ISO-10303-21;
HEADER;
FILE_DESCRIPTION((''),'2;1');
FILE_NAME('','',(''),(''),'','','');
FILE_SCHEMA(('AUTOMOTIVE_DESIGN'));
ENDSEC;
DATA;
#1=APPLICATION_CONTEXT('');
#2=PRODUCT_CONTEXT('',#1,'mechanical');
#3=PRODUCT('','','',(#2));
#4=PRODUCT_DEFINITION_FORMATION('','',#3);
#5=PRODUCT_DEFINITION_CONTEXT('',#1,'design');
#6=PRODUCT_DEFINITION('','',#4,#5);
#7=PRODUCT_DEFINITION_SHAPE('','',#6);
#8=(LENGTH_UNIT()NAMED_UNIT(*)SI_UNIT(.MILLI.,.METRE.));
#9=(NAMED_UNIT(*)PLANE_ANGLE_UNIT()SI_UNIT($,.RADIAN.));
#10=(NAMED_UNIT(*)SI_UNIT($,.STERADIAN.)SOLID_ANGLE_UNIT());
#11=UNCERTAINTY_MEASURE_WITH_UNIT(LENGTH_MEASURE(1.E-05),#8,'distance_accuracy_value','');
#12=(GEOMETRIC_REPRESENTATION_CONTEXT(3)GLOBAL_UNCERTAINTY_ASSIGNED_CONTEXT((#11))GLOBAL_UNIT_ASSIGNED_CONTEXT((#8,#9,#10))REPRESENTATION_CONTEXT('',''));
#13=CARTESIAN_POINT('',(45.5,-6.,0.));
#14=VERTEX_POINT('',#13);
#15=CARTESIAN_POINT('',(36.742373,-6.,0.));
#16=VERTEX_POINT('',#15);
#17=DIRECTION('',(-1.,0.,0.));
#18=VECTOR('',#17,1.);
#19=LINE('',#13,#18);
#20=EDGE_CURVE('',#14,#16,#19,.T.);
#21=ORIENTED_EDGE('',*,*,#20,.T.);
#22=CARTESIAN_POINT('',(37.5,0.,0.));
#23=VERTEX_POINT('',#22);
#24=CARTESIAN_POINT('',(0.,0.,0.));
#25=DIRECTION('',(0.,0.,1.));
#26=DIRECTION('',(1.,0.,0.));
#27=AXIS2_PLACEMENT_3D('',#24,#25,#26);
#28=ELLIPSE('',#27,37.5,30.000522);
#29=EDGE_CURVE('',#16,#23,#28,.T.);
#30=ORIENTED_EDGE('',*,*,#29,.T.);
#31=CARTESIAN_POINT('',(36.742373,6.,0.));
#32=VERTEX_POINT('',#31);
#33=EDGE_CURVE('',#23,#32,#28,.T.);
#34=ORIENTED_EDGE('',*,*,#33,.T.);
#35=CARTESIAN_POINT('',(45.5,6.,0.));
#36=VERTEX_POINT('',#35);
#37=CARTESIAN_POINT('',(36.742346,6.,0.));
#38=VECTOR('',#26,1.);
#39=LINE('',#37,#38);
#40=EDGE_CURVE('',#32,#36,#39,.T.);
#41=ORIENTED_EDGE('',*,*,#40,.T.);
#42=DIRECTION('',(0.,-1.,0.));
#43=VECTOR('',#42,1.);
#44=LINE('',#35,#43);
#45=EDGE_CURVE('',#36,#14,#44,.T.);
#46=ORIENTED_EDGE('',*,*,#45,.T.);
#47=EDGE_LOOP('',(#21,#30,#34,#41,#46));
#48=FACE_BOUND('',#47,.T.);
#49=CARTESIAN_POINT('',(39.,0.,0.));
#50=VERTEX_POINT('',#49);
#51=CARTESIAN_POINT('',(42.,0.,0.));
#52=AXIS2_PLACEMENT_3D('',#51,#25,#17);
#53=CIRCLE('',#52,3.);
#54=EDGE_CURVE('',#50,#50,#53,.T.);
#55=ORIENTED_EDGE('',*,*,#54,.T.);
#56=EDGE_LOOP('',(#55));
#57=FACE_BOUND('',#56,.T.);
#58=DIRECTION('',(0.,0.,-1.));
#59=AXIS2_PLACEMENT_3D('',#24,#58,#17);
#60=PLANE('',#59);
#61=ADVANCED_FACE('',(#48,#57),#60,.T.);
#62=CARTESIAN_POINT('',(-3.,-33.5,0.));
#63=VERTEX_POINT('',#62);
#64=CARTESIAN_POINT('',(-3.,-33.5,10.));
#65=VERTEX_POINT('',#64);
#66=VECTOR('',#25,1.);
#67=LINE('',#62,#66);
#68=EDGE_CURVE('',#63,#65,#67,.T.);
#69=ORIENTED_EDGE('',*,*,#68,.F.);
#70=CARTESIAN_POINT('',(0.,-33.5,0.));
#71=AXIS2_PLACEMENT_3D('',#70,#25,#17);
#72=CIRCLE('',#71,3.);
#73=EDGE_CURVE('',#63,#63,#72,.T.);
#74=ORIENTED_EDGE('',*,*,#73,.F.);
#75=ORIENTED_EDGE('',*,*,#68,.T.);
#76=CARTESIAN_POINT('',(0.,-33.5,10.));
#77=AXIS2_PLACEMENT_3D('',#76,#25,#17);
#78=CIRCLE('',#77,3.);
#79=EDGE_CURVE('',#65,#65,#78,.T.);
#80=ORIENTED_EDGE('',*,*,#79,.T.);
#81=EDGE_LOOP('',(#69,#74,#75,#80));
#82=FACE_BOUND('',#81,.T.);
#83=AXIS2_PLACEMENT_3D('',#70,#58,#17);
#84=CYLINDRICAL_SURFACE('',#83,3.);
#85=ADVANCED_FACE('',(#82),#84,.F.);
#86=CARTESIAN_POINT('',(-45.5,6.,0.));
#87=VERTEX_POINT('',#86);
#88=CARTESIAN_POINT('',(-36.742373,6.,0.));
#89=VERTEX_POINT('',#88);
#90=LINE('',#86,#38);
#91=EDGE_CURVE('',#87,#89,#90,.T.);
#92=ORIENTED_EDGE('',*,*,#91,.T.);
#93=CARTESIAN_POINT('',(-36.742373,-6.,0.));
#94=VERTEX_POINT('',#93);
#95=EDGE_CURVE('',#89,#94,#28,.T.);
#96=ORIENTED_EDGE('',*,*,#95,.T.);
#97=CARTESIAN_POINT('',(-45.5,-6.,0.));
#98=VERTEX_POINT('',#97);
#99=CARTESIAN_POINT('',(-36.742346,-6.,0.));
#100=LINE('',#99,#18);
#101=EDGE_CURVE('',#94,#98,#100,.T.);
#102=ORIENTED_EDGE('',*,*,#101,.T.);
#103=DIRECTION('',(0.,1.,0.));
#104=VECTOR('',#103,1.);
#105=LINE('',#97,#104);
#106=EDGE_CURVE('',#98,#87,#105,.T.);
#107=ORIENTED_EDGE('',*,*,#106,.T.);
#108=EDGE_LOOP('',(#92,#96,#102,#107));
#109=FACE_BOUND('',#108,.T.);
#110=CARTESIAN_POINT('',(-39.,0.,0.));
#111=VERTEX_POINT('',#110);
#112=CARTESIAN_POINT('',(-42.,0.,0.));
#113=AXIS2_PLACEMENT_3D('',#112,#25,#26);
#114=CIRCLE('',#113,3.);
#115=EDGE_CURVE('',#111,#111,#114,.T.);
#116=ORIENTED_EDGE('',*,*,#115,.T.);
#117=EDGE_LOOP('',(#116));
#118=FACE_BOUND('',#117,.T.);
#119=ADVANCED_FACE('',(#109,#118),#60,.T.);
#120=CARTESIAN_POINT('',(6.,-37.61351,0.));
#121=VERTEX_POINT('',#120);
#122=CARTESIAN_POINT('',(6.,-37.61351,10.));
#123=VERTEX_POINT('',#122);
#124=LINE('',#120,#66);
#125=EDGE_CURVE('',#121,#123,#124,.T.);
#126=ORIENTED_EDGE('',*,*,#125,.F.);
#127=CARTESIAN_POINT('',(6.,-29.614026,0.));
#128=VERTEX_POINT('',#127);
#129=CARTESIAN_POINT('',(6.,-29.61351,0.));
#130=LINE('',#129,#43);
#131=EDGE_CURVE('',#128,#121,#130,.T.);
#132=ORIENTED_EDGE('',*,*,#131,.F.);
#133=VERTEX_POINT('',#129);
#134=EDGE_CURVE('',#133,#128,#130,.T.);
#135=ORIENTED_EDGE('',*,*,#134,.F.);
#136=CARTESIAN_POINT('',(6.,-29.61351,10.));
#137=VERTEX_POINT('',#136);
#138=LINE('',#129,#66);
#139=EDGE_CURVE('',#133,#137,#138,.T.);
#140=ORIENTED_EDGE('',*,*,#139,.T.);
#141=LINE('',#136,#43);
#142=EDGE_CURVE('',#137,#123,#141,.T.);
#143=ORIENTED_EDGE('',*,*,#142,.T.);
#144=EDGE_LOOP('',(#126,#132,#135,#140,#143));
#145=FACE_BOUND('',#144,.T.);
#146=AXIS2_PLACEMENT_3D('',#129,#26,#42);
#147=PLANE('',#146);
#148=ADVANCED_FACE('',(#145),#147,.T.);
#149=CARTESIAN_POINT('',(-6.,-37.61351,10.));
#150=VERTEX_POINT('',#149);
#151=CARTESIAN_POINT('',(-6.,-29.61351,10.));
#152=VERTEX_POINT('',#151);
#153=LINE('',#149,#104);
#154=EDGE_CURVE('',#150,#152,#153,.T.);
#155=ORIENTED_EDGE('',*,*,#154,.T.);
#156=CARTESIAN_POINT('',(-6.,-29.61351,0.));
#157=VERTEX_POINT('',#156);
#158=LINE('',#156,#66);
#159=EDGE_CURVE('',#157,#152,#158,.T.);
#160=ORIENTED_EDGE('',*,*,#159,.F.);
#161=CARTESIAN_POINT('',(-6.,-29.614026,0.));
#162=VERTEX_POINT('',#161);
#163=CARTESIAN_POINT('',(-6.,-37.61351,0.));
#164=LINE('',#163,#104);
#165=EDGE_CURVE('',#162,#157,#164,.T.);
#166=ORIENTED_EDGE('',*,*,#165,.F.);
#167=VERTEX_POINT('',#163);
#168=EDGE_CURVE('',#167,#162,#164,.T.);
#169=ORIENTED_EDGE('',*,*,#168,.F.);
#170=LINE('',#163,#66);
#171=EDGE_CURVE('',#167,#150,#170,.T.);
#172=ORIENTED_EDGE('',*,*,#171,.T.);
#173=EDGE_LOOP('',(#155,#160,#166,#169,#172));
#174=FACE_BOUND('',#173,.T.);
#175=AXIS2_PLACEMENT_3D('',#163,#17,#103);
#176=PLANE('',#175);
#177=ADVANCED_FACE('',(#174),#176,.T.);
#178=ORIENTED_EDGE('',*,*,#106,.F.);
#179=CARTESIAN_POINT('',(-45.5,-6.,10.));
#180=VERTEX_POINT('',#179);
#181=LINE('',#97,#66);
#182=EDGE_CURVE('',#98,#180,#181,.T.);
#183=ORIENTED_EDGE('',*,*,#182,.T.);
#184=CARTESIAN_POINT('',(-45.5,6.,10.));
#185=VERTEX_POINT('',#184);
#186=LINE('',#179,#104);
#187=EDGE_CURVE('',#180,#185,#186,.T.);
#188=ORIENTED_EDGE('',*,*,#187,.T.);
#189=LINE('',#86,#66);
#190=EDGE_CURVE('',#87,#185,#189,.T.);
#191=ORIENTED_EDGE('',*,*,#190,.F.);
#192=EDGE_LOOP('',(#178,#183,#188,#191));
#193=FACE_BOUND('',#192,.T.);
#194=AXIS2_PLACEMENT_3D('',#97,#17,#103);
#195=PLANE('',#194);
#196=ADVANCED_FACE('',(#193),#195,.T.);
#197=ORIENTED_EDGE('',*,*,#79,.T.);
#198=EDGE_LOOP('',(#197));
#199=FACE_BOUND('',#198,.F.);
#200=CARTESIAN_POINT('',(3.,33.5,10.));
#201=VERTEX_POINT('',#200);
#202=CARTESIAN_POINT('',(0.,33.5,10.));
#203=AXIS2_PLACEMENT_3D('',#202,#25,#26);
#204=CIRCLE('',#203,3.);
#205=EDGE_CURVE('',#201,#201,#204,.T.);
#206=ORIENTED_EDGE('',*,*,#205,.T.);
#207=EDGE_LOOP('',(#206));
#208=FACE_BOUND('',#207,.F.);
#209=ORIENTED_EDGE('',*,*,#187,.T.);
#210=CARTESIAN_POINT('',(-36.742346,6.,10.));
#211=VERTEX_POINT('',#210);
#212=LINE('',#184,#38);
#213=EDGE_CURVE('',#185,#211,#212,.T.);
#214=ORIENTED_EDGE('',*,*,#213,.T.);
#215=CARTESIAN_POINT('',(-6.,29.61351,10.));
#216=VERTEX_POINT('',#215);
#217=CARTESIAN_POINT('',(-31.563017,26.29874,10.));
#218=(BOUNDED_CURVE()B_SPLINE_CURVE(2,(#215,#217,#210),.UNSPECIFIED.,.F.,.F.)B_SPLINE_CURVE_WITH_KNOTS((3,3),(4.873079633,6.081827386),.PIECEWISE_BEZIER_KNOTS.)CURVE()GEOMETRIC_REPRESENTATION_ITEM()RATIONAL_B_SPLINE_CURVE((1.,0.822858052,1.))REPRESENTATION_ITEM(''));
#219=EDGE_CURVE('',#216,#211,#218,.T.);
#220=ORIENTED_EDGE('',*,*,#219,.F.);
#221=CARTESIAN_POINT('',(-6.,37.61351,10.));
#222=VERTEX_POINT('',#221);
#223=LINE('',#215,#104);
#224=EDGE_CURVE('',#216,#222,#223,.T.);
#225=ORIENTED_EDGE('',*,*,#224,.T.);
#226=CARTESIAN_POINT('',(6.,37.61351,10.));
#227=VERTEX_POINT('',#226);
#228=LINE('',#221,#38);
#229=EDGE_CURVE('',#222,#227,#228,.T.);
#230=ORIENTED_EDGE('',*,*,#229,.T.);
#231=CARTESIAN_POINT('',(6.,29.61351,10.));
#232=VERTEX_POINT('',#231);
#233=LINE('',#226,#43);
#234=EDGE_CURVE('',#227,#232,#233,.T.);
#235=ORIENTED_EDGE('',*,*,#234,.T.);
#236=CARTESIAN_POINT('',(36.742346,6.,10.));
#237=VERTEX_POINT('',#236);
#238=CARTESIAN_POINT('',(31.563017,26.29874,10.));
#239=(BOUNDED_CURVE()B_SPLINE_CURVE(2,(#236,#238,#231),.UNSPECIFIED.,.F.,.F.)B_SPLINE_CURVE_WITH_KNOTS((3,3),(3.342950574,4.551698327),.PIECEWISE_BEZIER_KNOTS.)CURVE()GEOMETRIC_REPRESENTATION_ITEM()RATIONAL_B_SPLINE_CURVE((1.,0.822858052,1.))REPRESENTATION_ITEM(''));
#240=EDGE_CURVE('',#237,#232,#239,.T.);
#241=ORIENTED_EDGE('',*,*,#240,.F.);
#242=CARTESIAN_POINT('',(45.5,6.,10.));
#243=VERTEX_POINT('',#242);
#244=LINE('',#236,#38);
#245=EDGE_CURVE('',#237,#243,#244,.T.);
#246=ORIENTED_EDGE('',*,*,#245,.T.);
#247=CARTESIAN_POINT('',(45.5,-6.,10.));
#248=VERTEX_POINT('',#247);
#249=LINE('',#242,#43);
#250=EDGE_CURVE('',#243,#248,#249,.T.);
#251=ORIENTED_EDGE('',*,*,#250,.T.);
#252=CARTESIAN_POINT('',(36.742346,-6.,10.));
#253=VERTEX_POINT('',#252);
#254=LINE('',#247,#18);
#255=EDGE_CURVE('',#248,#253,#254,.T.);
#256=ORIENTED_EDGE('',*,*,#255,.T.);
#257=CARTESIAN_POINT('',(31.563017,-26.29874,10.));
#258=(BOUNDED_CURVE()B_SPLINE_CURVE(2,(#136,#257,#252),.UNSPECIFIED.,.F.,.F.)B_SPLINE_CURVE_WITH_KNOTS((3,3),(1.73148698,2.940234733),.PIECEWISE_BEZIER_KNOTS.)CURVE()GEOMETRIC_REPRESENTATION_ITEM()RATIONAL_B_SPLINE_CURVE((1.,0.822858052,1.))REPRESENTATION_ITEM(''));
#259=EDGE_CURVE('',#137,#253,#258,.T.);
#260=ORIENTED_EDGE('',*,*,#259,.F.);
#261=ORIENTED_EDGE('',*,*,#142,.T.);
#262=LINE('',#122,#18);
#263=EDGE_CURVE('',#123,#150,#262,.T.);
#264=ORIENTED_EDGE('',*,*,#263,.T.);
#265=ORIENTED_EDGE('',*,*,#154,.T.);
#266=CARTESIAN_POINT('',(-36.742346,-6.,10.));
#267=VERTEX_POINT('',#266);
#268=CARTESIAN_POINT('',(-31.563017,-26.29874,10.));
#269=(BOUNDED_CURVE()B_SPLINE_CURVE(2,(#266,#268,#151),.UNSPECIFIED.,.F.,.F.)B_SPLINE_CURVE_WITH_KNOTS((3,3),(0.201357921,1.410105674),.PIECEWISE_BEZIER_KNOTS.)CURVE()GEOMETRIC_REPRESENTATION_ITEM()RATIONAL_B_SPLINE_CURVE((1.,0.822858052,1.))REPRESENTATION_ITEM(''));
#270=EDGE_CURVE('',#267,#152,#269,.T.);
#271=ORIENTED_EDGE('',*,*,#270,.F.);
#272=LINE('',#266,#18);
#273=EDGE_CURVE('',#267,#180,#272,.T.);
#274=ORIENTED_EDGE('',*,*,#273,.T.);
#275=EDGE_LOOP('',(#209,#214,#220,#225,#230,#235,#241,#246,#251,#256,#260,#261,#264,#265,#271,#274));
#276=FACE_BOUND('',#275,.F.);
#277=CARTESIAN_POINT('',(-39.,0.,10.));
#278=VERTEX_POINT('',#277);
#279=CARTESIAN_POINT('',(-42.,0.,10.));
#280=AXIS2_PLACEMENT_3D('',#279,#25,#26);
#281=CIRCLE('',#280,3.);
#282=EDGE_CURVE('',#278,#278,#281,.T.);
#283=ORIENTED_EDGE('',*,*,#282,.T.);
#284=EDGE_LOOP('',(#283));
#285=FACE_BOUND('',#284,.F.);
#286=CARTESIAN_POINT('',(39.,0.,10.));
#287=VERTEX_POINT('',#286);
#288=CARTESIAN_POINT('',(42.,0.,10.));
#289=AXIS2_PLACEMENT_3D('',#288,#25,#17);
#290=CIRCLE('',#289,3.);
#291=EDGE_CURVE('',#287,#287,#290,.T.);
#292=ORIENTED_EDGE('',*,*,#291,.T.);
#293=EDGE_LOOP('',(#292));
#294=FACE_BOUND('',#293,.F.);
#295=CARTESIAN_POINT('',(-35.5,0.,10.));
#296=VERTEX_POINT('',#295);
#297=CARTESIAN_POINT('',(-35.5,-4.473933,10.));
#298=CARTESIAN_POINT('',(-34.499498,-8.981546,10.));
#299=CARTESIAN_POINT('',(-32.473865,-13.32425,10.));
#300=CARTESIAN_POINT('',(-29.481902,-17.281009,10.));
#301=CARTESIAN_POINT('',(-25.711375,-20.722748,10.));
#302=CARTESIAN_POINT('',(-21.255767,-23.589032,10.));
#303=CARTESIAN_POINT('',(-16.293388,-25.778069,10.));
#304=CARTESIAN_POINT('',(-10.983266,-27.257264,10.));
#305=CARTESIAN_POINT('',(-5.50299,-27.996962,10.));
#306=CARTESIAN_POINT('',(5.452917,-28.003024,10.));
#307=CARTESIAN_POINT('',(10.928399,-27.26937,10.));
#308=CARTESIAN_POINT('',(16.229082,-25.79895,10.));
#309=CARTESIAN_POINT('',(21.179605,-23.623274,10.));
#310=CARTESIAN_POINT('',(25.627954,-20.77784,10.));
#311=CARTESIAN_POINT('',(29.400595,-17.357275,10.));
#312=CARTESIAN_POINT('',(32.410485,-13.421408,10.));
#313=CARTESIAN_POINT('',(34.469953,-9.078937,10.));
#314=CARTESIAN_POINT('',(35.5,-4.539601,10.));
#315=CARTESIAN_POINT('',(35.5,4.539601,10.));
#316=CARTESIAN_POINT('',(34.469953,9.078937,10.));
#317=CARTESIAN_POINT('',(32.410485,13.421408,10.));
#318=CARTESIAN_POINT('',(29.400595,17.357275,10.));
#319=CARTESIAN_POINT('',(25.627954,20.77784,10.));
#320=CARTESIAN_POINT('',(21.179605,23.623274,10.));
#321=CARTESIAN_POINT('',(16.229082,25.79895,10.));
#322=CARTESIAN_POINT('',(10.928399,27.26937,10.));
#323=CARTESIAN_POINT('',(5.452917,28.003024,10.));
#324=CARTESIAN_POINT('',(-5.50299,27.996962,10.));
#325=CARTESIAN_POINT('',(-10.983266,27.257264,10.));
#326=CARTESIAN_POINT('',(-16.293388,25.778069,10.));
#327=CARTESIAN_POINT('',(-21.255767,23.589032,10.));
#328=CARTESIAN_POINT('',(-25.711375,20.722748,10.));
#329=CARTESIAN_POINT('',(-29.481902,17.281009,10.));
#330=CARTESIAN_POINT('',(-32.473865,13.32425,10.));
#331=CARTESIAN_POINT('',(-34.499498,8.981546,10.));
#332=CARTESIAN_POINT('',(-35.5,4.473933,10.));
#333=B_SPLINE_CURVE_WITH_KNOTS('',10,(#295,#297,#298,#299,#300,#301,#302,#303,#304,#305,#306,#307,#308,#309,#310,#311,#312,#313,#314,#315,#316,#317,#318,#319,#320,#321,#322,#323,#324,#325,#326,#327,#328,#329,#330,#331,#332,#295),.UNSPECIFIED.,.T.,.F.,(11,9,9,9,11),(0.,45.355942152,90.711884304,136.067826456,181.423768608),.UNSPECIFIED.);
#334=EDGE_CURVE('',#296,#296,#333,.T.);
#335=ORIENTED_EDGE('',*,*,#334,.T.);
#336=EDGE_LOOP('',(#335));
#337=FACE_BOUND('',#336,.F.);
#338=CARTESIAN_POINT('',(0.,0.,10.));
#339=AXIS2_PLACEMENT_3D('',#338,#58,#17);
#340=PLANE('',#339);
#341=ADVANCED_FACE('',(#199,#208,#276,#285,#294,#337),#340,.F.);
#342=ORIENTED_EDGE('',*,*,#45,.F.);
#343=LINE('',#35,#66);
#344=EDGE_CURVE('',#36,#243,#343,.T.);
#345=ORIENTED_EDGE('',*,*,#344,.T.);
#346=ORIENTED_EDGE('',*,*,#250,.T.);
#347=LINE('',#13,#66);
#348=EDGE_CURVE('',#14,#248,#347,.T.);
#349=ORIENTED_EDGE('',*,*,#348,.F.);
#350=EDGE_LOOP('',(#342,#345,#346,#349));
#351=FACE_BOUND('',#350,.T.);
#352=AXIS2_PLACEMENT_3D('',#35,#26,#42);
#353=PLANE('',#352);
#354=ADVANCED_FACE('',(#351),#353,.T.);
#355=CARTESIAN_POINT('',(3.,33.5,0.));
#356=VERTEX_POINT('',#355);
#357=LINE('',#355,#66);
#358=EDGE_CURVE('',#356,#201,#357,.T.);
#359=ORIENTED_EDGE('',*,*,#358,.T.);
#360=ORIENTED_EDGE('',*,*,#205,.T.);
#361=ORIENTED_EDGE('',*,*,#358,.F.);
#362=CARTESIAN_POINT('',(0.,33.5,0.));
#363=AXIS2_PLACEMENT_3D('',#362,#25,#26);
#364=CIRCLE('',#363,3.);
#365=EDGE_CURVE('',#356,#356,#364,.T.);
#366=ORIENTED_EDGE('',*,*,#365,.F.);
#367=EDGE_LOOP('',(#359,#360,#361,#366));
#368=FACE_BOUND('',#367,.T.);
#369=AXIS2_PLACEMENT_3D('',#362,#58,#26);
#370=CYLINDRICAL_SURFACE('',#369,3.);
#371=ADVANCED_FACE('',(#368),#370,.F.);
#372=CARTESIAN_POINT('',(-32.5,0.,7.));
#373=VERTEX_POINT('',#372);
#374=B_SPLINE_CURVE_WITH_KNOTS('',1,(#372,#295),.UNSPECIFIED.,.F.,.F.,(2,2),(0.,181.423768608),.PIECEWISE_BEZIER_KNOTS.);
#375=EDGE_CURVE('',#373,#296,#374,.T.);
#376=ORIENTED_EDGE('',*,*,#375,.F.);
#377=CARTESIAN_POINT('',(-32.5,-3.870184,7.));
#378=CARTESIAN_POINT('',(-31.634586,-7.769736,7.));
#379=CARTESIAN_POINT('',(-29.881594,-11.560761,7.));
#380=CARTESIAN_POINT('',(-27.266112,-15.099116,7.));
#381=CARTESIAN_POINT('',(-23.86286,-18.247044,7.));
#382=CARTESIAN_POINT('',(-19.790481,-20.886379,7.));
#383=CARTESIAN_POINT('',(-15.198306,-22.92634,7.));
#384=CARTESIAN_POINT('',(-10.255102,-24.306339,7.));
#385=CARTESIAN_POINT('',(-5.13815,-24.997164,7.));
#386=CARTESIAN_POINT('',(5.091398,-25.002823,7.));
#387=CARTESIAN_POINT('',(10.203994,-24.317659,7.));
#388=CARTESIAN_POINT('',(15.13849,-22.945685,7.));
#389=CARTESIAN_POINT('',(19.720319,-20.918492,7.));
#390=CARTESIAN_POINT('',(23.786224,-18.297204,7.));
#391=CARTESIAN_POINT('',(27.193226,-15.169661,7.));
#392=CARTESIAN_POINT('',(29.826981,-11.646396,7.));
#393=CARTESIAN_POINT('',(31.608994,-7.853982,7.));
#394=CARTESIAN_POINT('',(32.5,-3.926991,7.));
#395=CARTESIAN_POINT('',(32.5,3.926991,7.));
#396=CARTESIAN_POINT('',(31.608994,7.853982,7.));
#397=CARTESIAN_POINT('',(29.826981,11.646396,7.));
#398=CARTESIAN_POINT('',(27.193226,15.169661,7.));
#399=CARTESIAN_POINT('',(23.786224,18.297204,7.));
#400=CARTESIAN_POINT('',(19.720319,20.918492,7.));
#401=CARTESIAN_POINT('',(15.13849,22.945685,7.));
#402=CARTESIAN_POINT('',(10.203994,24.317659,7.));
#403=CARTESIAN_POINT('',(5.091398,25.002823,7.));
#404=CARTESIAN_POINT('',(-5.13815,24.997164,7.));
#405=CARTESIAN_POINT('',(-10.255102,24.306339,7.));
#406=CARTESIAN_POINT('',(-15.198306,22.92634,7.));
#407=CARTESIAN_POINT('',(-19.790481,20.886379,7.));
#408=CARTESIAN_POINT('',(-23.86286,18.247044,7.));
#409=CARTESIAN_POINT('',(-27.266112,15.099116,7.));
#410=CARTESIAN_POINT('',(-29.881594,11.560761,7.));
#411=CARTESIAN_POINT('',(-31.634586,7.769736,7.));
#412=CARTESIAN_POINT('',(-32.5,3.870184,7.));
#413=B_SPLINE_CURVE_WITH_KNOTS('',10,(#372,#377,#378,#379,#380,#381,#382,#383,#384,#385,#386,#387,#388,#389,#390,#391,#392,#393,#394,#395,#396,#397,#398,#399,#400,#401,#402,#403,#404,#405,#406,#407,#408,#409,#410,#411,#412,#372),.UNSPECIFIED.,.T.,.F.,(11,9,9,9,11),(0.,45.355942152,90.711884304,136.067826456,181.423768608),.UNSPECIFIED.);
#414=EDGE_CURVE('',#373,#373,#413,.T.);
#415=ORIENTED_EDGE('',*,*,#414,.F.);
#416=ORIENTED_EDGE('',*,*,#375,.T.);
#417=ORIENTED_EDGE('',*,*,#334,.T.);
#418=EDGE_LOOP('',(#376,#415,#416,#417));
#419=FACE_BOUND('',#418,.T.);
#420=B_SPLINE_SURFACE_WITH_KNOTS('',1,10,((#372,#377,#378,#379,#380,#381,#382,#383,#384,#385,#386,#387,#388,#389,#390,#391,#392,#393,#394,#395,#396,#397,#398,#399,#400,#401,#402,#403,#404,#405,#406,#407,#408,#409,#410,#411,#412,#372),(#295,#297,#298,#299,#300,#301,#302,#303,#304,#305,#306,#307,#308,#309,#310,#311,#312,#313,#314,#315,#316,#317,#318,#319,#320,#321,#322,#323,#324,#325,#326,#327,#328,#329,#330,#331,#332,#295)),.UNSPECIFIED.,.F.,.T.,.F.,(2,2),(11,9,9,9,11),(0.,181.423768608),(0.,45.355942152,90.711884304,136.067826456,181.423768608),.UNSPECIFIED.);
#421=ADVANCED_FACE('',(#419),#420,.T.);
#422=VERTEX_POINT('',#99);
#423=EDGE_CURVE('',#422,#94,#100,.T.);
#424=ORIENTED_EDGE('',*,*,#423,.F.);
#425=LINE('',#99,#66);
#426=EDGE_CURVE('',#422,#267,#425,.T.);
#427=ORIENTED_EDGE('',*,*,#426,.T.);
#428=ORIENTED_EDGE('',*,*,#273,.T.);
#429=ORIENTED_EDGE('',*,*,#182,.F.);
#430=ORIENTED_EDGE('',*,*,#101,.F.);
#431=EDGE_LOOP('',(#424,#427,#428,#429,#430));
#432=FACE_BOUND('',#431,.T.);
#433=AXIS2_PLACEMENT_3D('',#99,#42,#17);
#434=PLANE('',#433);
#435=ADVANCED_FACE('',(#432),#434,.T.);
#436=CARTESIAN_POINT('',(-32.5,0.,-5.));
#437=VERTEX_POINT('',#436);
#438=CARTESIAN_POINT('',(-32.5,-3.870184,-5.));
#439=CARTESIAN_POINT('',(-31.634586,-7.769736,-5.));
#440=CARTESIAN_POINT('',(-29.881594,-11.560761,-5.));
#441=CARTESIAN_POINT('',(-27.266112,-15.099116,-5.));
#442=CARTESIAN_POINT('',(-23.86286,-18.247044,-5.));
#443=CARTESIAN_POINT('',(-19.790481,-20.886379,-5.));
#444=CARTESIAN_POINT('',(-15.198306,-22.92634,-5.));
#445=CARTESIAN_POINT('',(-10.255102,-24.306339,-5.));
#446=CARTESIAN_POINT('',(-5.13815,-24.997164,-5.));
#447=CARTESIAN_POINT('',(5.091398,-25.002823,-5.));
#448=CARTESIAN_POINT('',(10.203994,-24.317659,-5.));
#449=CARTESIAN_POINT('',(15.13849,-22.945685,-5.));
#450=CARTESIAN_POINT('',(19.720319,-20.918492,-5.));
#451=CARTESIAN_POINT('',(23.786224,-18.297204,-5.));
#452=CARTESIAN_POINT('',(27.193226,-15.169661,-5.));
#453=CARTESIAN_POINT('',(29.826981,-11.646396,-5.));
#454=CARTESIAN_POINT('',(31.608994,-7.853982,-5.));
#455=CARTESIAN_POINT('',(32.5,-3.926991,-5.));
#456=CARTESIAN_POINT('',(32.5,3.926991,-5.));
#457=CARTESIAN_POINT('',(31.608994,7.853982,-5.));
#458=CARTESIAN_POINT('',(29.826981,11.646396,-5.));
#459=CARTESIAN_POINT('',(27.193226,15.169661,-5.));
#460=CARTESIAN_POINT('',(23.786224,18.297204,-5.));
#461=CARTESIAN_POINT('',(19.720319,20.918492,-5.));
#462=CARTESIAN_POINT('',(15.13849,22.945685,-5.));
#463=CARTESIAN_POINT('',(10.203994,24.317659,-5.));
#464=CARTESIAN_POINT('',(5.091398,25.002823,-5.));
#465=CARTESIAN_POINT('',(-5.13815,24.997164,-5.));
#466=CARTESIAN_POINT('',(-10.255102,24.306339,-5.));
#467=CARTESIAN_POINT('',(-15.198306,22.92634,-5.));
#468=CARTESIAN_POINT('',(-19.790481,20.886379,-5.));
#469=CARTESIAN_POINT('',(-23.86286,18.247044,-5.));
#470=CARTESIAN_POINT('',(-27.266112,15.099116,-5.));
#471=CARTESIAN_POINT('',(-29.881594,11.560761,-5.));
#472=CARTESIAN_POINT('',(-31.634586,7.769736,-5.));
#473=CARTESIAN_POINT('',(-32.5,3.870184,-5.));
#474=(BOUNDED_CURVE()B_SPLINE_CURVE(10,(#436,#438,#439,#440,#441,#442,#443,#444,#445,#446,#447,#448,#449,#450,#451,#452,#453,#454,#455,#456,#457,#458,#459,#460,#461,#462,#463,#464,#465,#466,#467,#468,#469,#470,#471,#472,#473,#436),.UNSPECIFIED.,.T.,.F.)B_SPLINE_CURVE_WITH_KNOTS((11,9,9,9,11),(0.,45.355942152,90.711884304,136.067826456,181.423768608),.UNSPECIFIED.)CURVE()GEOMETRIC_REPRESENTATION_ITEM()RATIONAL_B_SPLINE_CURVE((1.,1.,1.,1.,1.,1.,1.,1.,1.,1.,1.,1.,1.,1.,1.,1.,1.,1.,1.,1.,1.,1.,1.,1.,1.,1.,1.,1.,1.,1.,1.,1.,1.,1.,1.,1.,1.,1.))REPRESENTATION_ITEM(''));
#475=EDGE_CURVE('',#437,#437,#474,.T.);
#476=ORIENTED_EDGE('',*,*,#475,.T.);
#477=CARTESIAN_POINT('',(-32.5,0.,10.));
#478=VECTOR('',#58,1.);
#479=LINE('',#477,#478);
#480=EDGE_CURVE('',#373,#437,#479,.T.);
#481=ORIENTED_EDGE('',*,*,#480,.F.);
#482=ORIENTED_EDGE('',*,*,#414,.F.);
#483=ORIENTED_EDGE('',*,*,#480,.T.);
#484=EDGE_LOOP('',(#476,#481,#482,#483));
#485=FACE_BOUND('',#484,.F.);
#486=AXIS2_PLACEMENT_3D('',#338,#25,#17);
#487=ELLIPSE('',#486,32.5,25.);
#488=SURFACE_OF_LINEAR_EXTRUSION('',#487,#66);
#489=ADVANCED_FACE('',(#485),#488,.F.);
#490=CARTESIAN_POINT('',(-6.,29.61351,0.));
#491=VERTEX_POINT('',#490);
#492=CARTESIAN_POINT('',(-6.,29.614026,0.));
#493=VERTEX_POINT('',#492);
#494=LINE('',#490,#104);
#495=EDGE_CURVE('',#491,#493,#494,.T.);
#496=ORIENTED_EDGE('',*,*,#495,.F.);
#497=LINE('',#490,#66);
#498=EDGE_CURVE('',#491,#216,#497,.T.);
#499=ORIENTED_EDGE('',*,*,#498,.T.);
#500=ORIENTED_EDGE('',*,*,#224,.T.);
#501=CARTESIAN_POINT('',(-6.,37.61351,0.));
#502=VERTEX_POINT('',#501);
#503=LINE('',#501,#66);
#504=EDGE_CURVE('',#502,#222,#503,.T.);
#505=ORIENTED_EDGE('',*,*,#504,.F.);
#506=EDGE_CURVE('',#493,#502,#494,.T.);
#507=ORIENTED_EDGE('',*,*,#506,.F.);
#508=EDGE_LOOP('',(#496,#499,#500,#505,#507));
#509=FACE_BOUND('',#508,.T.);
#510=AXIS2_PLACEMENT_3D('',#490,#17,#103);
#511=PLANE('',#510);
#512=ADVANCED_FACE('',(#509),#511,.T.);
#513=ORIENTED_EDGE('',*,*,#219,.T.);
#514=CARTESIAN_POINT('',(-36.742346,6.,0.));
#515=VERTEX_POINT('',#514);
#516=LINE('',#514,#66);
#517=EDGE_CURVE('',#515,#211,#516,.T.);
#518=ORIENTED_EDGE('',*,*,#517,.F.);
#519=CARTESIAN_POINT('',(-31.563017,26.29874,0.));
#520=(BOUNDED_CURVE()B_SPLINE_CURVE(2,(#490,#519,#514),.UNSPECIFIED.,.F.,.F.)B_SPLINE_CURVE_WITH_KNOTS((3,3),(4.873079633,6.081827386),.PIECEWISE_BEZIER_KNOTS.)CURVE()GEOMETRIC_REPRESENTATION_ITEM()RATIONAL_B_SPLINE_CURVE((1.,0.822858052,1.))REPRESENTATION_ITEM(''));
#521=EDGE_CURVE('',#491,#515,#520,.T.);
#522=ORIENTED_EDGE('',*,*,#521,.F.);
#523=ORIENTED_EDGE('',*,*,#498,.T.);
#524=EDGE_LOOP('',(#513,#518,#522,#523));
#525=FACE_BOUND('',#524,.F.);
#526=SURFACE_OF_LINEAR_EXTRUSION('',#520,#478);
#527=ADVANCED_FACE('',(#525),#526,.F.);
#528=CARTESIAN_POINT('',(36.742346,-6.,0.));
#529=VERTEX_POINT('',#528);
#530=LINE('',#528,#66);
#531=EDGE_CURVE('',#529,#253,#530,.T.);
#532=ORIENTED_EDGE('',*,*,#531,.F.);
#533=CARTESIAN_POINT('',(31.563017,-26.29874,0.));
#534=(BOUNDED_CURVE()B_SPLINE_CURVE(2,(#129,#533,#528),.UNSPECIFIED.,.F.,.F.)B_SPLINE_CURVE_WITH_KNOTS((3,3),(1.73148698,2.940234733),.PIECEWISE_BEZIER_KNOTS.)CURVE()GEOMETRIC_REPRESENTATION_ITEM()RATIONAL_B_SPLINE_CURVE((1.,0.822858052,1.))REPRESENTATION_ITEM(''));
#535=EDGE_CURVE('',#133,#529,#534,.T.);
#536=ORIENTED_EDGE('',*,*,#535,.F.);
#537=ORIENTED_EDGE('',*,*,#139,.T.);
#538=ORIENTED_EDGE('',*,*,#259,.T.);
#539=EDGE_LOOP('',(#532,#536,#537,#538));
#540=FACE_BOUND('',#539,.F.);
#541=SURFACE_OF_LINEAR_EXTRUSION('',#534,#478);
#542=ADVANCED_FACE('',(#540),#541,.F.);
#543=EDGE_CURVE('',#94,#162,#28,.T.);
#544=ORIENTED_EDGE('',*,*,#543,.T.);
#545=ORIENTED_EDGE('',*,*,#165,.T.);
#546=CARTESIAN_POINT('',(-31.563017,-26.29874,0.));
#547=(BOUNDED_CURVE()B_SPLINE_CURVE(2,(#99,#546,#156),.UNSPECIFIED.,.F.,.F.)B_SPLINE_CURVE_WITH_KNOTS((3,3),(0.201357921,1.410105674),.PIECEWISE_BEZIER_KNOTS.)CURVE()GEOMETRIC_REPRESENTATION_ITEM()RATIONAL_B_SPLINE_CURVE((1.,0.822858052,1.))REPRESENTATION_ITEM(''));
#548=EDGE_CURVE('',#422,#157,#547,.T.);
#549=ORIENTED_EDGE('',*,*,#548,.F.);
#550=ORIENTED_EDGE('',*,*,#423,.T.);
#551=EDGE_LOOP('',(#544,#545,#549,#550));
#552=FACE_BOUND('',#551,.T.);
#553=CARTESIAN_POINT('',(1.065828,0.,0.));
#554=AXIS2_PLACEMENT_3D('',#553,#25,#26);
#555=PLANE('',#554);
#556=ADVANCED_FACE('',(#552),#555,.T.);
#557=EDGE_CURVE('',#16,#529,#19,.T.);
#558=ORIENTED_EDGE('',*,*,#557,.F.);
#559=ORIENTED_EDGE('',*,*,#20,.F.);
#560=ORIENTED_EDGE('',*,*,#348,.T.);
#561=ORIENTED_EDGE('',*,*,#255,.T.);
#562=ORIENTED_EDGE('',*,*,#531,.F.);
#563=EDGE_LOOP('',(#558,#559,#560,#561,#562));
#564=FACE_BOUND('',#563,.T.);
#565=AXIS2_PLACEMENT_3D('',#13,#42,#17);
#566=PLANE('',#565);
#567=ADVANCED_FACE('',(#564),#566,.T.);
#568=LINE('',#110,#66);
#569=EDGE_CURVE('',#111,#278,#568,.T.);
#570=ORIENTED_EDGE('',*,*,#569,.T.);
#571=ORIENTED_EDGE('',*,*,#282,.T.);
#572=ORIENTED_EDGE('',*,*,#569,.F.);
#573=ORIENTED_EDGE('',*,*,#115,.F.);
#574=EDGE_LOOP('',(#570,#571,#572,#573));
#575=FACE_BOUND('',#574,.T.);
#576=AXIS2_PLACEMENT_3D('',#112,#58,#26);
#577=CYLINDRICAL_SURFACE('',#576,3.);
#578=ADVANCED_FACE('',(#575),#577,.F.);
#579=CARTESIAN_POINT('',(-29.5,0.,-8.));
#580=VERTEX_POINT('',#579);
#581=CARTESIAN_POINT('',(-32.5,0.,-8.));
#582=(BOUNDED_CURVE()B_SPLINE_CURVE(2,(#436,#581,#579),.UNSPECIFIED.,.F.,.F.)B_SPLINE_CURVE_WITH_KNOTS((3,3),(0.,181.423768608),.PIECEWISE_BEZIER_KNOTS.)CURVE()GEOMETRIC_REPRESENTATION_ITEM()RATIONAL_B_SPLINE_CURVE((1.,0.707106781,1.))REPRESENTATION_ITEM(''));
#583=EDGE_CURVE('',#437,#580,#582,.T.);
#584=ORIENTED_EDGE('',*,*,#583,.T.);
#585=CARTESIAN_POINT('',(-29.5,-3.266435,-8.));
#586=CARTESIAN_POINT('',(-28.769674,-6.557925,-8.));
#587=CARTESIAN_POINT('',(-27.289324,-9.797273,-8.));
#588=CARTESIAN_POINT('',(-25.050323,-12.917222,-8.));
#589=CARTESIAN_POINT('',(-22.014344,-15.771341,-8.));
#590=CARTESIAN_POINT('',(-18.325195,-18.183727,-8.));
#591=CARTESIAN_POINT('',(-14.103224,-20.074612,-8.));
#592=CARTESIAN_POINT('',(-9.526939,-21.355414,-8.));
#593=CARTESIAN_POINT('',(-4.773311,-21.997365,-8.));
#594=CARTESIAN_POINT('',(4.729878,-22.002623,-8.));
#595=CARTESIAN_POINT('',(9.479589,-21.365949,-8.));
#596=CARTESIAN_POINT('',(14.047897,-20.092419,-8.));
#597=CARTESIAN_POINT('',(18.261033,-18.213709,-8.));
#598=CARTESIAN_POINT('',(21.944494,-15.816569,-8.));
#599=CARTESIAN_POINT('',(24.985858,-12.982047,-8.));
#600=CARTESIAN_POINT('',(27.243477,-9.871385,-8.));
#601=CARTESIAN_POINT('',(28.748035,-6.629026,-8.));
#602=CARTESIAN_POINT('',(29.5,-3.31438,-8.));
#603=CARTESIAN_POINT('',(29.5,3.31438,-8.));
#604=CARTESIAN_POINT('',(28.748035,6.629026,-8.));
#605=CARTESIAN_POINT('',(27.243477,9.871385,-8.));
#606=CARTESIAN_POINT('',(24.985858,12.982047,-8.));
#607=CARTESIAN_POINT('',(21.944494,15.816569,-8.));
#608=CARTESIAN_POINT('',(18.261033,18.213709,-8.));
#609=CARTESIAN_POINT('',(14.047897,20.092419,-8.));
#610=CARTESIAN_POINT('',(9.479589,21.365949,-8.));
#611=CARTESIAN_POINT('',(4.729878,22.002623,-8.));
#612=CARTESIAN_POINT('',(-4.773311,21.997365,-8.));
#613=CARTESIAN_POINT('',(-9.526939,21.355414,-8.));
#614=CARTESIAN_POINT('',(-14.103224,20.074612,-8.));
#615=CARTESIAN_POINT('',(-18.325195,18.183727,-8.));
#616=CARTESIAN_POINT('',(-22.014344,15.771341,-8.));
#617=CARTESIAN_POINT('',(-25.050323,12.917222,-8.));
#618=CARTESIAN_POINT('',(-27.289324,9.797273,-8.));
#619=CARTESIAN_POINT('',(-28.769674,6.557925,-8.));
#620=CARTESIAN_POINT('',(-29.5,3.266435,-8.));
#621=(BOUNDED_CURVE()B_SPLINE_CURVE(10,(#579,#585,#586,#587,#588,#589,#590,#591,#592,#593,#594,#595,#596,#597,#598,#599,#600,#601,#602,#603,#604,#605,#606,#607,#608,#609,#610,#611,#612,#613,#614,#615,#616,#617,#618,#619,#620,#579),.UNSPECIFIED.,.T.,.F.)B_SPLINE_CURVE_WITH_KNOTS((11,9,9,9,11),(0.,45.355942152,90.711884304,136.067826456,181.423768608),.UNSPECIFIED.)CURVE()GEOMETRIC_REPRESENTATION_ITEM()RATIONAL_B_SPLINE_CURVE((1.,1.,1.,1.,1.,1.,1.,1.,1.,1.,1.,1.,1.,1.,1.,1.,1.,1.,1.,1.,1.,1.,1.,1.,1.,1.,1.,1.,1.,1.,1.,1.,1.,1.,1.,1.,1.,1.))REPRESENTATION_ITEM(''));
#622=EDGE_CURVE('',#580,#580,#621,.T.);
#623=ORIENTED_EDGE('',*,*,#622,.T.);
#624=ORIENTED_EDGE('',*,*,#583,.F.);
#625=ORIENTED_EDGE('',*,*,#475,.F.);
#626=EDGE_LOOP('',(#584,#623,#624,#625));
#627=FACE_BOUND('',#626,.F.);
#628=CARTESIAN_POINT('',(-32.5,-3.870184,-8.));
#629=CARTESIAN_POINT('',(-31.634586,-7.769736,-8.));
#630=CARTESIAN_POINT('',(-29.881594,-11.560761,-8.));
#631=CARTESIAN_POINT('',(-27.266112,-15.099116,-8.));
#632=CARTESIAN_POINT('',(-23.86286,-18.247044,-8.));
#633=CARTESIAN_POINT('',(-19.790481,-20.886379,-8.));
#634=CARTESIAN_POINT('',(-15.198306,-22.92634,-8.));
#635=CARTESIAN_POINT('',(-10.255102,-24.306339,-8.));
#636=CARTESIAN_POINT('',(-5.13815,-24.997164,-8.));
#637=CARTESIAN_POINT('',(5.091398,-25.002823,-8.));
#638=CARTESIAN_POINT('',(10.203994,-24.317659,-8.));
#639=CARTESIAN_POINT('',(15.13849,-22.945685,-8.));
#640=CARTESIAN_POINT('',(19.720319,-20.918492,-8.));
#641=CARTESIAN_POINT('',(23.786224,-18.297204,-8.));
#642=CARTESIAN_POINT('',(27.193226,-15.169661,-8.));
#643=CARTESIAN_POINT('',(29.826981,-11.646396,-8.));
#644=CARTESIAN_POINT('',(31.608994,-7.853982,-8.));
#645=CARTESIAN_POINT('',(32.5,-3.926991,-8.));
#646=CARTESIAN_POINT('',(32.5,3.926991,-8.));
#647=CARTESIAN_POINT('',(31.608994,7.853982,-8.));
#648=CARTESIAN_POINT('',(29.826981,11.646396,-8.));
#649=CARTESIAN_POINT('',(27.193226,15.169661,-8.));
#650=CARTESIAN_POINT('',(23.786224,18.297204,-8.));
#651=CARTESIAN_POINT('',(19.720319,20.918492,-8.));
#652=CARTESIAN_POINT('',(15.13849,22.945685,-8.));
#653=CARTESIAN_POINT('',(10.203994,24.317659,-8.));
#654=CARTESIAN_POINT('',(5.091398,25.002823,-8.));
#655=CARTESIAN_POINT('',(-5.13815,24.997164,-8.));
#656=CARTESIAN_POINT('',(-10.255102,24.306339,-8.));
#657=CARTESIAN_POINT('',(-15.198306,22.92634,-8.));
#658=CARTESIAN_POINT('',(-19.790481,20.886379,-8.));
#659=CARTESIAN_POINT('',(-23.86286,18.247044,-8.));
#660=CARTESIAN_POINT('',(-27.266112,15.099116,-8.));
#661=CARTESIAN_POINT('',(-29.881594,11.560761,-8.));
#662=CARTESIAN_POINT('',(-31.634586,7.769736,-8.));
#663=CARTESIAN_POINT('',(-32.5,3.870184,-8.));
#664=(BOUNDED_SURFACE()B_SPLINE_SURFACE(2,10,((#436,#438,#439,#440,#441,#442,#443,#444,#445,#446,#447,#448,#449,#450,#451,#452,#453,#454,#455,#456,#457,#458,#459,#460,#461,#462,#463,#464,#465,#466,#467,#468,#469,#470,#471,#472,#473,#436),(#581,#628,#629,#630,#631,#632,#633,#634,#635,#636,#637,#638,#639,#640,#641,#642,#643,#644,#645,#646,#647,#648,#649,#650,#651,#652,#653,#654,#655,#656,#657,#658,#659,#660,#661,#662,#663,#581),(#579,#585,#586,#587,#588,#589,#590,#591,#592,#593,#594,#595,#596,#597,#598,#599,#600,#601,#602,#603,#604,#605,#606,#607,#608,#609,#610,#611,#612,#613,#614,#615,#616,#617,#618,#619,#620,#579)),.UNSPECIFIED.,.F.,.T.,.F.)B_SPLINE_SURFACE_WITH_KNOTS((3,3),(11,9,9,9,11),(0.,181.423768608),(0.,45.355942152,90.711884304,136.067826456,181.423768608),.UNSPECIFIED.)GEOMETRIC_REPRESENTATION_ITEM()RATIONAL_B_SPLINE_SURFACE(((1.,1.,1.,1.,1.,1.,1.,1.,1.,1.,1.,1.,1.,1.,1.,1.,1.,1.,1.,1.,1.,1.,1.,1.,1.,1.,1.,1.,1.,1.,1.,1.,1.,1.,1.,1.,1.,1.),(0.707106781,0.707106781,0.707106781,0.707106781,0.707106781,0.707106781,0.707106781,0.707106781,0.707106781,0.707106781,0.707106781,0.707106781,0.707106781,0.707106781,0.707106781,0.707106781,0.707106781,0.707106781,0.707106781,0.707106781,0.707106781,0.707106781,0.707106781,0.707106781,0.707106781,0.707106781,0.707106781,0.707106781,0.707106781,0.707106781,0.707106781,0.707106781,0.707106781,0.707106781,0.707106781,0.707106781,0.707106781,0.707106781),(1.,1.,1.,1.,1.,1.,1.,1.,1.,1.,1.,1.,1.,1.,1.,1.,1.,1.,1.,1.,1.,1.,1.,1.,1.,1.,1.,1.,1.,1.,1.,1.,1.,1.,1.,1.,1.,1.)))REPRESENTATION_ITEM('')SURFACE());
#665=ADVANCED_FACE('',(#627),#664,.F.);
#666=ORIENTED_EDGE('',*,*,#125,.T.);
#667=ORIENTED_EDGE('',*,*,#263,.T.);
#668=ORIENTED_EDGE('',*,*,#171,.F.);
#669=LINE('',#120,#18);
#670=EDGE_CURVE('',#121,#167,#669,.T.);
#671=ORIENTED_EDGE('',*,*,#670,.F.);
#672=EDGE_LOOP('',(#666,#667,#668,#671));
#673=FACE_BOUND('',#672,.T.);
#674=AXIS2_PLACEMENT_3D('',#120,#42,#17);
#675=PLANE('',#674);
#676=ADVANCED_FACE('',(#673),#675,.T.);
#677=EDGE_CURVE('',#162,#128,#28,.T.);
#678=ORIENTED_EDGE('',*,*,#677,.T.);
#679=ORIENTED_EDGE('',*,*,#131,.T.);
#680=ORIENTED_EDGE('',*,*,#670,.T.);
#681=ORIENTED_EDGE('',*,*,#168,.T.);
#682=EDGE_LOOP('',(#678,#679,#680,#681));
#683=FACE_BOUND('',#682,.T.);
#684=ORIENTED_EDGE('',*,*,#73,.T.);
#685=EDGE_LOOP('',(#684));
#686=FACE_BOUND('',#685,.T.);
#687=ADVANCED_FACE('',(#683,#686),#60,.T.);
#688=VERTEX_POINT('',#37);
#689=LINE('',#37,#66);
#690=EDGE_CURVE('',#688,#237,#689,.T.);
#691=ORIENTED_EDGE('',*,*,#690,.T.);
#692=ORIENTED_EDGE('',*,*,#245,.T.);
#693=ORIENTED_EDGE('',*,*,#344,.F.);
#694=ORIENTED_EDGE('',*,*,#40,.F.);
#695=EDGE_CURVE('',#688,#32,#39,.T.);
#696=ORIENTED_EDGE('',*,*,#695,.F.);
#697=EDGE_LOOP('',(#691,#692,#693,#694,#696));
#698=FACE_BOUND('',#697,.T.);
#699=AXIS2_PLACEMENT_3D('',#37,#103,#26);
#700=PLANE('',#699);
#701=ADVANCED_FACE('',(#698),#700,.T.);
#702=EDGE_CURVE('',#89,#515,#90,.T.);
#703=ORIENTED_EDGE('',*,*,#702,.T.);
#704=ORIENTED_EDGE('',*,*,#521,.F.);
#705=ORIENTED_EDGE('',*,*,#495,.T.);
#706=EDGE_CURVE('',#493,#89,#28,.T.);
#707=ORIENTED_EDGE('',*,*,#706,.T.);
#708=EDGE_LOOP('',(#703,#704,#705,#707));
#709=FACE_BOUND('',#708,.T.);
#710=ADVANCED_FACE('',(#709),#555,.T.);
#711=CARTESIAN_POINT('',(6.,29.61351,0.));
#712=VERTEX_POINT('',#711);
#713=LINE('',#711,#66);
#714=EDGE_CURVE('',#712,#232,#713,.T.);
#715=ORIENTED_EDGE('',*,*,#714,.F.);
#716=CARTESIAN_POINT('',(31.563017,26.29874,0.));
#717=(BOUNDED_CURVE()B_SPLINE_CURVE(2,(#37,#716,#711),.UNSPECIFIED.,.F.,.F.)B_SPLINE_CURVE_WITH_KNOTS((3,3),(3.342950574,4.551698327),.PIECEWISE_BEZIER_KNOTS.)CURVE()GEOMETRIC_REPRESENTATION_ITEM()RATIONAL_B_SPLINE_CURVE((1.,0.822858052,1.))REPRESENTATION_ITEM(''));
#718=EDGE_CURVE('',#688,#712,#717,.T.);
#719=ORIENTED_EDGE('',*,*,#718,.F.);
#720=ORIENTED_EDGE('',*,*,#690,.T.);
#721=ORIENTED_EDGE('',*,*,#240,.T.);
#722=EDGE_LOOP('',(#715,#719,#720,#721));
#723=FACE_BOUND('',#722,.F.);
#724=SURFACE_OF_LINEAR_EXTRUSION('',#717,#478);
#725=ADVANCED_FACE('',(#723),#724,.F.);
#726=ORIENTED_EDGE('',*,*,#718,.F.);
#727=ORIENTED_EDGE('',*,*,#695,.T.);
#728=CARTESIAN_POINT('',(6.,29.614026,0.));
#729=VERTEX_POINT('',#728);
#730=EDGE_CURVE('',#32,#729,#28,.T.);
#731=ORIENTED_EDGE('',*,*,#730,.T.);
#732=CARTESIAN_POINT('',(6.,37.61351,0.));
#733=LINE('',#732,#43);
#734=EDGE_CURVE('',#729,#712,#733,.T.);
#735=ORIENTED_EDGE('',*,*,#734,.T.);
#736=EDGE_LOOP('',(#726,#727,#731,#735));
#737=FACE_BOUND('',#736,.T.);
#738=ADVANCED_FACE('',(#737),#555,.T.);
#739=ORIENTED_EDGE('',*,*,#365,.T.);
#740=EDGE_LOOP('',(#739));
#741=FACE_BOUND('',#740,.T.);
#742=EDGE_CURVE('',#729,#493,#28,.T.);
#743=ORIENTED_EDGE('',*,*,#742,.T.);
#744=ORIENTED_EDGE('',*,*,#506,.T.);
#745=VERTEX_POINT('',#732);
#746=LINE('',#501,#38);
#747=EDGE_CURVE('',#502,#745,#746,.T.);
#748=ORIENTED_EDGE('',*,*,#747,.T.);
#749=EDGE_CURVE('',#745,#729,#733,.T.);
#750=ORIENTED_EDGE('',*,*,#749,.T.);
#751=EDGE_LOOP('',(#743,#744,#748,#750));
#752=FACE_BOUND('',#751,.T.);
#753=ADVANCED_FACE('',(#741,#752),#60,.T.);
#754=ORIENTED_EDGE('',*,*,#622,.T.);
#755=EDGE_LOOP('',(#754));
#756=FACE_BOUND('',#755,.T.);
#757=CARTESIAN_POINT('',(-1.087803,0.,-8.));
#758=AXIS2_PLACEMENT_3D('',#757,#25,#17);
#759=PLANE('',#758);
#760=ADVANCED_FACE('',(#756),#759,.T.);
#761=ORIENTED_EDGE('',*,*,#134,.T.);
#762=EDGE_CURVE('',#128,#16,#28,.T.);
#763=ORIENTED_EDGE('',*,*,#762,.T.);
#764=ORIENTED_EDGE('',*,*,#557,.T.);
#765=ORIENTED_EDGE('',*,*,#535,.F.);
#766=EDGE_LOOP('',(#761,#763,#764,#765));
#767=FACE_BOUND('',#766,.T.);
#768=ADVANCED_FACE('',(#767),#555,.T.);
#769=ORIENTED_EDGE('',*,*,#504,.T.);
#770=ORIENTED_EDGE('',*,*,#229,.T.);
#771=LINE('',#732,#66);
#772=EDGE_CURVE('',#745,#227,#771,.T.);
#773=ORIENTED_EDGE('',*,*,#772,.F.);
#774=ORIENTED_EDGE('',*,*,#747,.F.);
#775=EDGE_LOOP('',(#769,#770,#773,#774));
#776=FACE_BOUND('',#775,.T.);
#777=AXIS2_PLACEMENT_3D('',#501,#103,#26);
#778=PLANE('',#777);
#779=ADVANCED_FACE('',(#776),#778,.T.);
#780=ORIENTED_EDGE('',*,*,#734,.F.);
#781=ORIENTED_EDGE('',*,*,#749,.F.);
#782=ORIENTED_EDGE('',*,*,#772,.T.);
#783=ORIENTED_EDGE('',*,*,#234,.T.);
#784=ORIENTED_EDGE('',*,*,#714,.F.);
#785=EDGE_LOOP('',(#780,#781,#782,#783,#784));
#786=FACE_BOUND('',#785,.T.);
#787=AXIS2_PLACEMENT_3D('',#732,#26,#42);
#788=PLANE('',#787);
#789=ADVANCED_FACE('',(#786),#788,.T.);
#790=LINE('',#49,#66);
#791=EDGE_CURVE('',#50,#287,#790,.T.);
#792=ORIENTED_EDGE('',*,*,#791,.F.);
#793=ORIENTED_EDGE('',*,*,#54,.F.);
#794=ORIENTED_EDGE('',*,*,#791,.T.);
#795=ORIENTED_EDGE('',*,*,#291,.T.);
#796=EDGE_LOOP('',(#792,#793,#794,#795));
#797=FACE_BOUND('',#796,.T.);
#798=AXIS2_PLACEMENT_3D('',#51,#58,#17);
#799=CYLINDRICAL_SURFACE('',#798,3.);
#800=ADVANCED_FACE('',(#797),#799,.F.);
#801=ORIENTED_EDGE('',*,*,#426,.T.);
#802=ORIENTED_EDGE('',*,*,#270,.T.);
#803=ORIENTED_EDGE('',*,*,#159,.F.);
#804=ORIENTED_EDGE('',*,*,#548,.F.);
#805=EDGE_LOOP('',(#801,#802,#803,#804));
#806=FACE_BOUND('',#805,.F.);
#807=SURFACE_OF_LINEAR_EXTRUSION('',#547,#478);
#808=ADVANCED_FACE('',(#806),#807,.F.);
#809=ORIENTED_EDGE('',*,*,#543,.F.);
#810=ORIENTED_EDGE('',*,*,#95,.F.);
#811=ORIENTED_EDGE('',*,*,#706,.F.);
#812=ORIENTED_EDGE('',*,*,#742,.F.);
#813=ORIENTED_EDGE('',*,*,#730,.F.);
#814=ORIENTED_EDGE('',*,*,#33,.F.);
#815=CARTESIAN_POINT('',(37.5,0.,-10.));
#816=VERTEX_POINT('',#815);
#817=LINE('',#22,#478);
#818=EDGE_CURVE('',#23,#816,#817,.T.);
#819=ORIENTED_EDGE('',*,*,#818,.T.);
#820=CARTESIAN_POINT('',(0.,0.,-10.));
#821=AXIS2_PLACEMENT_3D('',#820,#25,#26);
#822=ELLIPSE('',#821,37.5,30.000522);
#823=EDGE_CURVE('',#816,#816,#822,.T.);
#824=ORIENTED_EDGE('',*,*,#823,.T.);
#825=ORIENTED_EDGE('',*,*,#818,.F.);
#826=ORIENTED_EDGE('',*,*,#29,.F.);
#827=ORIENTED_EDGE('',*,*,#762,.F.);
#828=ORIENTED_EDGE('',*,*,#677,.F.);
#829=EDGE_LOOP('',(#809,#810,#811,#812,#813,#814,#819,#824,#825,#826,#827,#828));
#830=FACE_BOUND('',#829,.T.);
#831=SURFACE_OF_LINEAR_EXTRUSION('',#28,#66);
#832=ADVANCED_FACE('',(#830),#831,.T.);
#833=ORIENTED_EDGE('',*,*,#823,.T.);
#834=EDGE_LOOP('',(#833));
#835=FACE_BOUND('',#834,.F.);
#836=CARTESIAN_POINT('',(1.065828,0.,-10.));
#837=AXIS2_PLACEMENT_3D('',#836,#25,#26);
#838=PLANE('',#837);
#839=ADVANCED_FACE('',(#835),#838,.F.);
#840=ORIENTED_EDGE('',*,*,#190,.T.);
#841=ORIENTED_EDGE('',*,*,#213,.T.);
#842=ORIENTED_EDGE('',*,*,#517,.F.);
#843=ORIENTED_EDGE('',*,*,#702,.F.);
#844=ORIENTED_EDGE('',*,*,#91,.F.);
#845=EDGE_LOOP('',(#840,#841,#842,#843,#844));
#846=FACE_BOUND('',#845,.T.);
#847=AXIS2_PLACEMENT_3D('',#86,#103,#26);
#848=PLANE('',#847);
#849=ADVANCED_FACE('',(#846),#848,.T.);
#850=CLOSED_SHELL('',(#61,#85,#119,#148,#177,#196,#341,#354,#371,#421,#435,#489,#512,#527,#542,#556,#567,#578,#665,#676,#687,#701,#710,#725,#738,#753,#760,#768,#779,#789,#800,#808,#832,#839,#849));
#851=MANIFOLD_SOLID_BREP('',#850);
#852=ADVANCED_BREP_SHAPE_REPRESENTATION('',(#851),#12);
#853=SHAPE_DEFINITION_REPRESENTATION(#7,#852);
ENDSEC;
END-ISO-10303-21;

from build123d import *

# Parameters (mm, degrees)
SKETCH1_R           = 3
BOSS_EXTRUDE1_DEPTH = 10
SKETCH2_RX          = 37.5
SKETCH2_RY          = 30.000521952
BOSS_EXTRUDE2_DEPTH = 10
SKETCH3_RX          = 32.5
SKETCH3_RY          = 25
CUT_EXTRUDE1_DEPTH  = 18
FILLET1_R           = 3
CHAMFER1_SIZE       = 3


with BuildPart() as part:
    # Sketch1 → Boss-Extrude1 (new body)
    with BuildSketch(Plane.XY):
        with BuildLine():
            Line((-6, 29.61351043), (-6, 37.61351043))
            Line((-6, 37.61351043), (0, 37.61351043))
            Line((0, 37.61351043), (6, 37.61351043))
            Line((6, 37.61351043), (6, 29.61351043))
            add(Edge.make_bspline(
                [(36.742346142, 6), (31.563017437, 26.298740059), (6, 29.61351043)],
                knots=[3.342950574, 3.342950574, 3.342950574, 4.551698327, 4.551698327, 4.551698327], degree=2, weights=[1, 0.822858052, 1]))
            Line((36.742346142, 6), (45.5, 6))
            Line((45.5, 6), (45.5, -6))
            Line((45.5, -6), (36.742346142, -6))
            add(Edge.make_bspline(
                [(6, -29.61351043), (31.563017437, -26.298740059), (36.742346142, -6)],
                knots=[1.73148698, 1.73148698, 1.73148698, 2.940234733, 2.940234733, 2.940234733], degree=2, weights=[1, 0.822858052, 1]))
            Line((6, -29.61351043), (6, -37.61351043))
            Line((6, -37.61351043), (0, -37.61351043))
            Line((0, -37.61351043), (-6, -37.61351043))
            Line((-6, -37.61351043), (-6, -29.61351043))
            add(Edge.make_bspline(
                [(-36.742346142, -6), (-31.563017437, -26.298740059), (-6, -29.61351043)],
                knots=[0.201357921, 0.201357921, 0.201357921, 1.410105674, 1.410105674, 1.410105674], degree=2, weights=[1, 0.822858052, 1]))
            Line((-36.742346142, -6), (-45.5, -6))
            Line((-45.5, -6), (-45.5, 6))
            Line((-45.5, 6), (-36.742346142, 6))
            add(Edge.make_bspline(
                [(-6, 29.61351043), (-31.563017437, 26.298740059), (-36.742346142, 6)],
                knots=[4.873079633, 4.873079633, 4.873079633, 6.081827386, 6.081827386, 6.081827386], degree=2, weights=[1, 0.822858052, 1]))
        make_face()
        with Locations((0, 33.5)):
            Circle(SKETCH1_R, mode=Mode.SUBTRACT)
        with Locations(Location((0, -33.5, 0), (0, 0, 180))):
            Circle(SKETCH1_R, mode=Mode.SUBTRACT)
        with Locations((-42, 0)):
            Circle(SKETCH1_R, mode=Mode.SUBTRACT)
        with Locations(Location((42, 0, 0), (0, 0, 180))):
            Circle(SKETCH1_R, mode=Mode.SUBTRACT)
    extrude(amount=BOSS_EXTRUDE1_DEPTH)

    # Sketch2 → Boss-Extrude2 (add)
    with BuildSketch(Plane.XY):
        with Locations((0, 0)):
            Ellipse(SKETCH2_RX, SKETCH2_RY)
    extrude(amount=-BOSS_EXTRUDE2_DEPTH)

    # Sketch3 → Cut-Extrude1 (cut)
    with BuildSketch(Plane.XY.offset(10)):
        with Locations(Location((0, 0), (0, 0, 180))):
            Ellipse(SKETCH3_RX, SKETCH3_RY)
    extrude(amount=-CUT_EXTRUDE1_DEPTH, mode=Mode.SUBTRACT)

    # Fillet1
    fillet1_edges = [part.edges().sort_by_distance(p)[0] for p in [
        (32.499998894, 0.006523295, -8),
    ]]
    fillet(fillet1_edges, radius=FILLET1_R)

    # Chamfer1
    chamfer1_edges = [part.edges().sort_by_distance(p)[0] for p in [
        (32.499998894, 0.006523295, 10),
    ]]
    chamfer(chamfer1_edges, length=CHAMFER1_SIZE)


solid = part.part
